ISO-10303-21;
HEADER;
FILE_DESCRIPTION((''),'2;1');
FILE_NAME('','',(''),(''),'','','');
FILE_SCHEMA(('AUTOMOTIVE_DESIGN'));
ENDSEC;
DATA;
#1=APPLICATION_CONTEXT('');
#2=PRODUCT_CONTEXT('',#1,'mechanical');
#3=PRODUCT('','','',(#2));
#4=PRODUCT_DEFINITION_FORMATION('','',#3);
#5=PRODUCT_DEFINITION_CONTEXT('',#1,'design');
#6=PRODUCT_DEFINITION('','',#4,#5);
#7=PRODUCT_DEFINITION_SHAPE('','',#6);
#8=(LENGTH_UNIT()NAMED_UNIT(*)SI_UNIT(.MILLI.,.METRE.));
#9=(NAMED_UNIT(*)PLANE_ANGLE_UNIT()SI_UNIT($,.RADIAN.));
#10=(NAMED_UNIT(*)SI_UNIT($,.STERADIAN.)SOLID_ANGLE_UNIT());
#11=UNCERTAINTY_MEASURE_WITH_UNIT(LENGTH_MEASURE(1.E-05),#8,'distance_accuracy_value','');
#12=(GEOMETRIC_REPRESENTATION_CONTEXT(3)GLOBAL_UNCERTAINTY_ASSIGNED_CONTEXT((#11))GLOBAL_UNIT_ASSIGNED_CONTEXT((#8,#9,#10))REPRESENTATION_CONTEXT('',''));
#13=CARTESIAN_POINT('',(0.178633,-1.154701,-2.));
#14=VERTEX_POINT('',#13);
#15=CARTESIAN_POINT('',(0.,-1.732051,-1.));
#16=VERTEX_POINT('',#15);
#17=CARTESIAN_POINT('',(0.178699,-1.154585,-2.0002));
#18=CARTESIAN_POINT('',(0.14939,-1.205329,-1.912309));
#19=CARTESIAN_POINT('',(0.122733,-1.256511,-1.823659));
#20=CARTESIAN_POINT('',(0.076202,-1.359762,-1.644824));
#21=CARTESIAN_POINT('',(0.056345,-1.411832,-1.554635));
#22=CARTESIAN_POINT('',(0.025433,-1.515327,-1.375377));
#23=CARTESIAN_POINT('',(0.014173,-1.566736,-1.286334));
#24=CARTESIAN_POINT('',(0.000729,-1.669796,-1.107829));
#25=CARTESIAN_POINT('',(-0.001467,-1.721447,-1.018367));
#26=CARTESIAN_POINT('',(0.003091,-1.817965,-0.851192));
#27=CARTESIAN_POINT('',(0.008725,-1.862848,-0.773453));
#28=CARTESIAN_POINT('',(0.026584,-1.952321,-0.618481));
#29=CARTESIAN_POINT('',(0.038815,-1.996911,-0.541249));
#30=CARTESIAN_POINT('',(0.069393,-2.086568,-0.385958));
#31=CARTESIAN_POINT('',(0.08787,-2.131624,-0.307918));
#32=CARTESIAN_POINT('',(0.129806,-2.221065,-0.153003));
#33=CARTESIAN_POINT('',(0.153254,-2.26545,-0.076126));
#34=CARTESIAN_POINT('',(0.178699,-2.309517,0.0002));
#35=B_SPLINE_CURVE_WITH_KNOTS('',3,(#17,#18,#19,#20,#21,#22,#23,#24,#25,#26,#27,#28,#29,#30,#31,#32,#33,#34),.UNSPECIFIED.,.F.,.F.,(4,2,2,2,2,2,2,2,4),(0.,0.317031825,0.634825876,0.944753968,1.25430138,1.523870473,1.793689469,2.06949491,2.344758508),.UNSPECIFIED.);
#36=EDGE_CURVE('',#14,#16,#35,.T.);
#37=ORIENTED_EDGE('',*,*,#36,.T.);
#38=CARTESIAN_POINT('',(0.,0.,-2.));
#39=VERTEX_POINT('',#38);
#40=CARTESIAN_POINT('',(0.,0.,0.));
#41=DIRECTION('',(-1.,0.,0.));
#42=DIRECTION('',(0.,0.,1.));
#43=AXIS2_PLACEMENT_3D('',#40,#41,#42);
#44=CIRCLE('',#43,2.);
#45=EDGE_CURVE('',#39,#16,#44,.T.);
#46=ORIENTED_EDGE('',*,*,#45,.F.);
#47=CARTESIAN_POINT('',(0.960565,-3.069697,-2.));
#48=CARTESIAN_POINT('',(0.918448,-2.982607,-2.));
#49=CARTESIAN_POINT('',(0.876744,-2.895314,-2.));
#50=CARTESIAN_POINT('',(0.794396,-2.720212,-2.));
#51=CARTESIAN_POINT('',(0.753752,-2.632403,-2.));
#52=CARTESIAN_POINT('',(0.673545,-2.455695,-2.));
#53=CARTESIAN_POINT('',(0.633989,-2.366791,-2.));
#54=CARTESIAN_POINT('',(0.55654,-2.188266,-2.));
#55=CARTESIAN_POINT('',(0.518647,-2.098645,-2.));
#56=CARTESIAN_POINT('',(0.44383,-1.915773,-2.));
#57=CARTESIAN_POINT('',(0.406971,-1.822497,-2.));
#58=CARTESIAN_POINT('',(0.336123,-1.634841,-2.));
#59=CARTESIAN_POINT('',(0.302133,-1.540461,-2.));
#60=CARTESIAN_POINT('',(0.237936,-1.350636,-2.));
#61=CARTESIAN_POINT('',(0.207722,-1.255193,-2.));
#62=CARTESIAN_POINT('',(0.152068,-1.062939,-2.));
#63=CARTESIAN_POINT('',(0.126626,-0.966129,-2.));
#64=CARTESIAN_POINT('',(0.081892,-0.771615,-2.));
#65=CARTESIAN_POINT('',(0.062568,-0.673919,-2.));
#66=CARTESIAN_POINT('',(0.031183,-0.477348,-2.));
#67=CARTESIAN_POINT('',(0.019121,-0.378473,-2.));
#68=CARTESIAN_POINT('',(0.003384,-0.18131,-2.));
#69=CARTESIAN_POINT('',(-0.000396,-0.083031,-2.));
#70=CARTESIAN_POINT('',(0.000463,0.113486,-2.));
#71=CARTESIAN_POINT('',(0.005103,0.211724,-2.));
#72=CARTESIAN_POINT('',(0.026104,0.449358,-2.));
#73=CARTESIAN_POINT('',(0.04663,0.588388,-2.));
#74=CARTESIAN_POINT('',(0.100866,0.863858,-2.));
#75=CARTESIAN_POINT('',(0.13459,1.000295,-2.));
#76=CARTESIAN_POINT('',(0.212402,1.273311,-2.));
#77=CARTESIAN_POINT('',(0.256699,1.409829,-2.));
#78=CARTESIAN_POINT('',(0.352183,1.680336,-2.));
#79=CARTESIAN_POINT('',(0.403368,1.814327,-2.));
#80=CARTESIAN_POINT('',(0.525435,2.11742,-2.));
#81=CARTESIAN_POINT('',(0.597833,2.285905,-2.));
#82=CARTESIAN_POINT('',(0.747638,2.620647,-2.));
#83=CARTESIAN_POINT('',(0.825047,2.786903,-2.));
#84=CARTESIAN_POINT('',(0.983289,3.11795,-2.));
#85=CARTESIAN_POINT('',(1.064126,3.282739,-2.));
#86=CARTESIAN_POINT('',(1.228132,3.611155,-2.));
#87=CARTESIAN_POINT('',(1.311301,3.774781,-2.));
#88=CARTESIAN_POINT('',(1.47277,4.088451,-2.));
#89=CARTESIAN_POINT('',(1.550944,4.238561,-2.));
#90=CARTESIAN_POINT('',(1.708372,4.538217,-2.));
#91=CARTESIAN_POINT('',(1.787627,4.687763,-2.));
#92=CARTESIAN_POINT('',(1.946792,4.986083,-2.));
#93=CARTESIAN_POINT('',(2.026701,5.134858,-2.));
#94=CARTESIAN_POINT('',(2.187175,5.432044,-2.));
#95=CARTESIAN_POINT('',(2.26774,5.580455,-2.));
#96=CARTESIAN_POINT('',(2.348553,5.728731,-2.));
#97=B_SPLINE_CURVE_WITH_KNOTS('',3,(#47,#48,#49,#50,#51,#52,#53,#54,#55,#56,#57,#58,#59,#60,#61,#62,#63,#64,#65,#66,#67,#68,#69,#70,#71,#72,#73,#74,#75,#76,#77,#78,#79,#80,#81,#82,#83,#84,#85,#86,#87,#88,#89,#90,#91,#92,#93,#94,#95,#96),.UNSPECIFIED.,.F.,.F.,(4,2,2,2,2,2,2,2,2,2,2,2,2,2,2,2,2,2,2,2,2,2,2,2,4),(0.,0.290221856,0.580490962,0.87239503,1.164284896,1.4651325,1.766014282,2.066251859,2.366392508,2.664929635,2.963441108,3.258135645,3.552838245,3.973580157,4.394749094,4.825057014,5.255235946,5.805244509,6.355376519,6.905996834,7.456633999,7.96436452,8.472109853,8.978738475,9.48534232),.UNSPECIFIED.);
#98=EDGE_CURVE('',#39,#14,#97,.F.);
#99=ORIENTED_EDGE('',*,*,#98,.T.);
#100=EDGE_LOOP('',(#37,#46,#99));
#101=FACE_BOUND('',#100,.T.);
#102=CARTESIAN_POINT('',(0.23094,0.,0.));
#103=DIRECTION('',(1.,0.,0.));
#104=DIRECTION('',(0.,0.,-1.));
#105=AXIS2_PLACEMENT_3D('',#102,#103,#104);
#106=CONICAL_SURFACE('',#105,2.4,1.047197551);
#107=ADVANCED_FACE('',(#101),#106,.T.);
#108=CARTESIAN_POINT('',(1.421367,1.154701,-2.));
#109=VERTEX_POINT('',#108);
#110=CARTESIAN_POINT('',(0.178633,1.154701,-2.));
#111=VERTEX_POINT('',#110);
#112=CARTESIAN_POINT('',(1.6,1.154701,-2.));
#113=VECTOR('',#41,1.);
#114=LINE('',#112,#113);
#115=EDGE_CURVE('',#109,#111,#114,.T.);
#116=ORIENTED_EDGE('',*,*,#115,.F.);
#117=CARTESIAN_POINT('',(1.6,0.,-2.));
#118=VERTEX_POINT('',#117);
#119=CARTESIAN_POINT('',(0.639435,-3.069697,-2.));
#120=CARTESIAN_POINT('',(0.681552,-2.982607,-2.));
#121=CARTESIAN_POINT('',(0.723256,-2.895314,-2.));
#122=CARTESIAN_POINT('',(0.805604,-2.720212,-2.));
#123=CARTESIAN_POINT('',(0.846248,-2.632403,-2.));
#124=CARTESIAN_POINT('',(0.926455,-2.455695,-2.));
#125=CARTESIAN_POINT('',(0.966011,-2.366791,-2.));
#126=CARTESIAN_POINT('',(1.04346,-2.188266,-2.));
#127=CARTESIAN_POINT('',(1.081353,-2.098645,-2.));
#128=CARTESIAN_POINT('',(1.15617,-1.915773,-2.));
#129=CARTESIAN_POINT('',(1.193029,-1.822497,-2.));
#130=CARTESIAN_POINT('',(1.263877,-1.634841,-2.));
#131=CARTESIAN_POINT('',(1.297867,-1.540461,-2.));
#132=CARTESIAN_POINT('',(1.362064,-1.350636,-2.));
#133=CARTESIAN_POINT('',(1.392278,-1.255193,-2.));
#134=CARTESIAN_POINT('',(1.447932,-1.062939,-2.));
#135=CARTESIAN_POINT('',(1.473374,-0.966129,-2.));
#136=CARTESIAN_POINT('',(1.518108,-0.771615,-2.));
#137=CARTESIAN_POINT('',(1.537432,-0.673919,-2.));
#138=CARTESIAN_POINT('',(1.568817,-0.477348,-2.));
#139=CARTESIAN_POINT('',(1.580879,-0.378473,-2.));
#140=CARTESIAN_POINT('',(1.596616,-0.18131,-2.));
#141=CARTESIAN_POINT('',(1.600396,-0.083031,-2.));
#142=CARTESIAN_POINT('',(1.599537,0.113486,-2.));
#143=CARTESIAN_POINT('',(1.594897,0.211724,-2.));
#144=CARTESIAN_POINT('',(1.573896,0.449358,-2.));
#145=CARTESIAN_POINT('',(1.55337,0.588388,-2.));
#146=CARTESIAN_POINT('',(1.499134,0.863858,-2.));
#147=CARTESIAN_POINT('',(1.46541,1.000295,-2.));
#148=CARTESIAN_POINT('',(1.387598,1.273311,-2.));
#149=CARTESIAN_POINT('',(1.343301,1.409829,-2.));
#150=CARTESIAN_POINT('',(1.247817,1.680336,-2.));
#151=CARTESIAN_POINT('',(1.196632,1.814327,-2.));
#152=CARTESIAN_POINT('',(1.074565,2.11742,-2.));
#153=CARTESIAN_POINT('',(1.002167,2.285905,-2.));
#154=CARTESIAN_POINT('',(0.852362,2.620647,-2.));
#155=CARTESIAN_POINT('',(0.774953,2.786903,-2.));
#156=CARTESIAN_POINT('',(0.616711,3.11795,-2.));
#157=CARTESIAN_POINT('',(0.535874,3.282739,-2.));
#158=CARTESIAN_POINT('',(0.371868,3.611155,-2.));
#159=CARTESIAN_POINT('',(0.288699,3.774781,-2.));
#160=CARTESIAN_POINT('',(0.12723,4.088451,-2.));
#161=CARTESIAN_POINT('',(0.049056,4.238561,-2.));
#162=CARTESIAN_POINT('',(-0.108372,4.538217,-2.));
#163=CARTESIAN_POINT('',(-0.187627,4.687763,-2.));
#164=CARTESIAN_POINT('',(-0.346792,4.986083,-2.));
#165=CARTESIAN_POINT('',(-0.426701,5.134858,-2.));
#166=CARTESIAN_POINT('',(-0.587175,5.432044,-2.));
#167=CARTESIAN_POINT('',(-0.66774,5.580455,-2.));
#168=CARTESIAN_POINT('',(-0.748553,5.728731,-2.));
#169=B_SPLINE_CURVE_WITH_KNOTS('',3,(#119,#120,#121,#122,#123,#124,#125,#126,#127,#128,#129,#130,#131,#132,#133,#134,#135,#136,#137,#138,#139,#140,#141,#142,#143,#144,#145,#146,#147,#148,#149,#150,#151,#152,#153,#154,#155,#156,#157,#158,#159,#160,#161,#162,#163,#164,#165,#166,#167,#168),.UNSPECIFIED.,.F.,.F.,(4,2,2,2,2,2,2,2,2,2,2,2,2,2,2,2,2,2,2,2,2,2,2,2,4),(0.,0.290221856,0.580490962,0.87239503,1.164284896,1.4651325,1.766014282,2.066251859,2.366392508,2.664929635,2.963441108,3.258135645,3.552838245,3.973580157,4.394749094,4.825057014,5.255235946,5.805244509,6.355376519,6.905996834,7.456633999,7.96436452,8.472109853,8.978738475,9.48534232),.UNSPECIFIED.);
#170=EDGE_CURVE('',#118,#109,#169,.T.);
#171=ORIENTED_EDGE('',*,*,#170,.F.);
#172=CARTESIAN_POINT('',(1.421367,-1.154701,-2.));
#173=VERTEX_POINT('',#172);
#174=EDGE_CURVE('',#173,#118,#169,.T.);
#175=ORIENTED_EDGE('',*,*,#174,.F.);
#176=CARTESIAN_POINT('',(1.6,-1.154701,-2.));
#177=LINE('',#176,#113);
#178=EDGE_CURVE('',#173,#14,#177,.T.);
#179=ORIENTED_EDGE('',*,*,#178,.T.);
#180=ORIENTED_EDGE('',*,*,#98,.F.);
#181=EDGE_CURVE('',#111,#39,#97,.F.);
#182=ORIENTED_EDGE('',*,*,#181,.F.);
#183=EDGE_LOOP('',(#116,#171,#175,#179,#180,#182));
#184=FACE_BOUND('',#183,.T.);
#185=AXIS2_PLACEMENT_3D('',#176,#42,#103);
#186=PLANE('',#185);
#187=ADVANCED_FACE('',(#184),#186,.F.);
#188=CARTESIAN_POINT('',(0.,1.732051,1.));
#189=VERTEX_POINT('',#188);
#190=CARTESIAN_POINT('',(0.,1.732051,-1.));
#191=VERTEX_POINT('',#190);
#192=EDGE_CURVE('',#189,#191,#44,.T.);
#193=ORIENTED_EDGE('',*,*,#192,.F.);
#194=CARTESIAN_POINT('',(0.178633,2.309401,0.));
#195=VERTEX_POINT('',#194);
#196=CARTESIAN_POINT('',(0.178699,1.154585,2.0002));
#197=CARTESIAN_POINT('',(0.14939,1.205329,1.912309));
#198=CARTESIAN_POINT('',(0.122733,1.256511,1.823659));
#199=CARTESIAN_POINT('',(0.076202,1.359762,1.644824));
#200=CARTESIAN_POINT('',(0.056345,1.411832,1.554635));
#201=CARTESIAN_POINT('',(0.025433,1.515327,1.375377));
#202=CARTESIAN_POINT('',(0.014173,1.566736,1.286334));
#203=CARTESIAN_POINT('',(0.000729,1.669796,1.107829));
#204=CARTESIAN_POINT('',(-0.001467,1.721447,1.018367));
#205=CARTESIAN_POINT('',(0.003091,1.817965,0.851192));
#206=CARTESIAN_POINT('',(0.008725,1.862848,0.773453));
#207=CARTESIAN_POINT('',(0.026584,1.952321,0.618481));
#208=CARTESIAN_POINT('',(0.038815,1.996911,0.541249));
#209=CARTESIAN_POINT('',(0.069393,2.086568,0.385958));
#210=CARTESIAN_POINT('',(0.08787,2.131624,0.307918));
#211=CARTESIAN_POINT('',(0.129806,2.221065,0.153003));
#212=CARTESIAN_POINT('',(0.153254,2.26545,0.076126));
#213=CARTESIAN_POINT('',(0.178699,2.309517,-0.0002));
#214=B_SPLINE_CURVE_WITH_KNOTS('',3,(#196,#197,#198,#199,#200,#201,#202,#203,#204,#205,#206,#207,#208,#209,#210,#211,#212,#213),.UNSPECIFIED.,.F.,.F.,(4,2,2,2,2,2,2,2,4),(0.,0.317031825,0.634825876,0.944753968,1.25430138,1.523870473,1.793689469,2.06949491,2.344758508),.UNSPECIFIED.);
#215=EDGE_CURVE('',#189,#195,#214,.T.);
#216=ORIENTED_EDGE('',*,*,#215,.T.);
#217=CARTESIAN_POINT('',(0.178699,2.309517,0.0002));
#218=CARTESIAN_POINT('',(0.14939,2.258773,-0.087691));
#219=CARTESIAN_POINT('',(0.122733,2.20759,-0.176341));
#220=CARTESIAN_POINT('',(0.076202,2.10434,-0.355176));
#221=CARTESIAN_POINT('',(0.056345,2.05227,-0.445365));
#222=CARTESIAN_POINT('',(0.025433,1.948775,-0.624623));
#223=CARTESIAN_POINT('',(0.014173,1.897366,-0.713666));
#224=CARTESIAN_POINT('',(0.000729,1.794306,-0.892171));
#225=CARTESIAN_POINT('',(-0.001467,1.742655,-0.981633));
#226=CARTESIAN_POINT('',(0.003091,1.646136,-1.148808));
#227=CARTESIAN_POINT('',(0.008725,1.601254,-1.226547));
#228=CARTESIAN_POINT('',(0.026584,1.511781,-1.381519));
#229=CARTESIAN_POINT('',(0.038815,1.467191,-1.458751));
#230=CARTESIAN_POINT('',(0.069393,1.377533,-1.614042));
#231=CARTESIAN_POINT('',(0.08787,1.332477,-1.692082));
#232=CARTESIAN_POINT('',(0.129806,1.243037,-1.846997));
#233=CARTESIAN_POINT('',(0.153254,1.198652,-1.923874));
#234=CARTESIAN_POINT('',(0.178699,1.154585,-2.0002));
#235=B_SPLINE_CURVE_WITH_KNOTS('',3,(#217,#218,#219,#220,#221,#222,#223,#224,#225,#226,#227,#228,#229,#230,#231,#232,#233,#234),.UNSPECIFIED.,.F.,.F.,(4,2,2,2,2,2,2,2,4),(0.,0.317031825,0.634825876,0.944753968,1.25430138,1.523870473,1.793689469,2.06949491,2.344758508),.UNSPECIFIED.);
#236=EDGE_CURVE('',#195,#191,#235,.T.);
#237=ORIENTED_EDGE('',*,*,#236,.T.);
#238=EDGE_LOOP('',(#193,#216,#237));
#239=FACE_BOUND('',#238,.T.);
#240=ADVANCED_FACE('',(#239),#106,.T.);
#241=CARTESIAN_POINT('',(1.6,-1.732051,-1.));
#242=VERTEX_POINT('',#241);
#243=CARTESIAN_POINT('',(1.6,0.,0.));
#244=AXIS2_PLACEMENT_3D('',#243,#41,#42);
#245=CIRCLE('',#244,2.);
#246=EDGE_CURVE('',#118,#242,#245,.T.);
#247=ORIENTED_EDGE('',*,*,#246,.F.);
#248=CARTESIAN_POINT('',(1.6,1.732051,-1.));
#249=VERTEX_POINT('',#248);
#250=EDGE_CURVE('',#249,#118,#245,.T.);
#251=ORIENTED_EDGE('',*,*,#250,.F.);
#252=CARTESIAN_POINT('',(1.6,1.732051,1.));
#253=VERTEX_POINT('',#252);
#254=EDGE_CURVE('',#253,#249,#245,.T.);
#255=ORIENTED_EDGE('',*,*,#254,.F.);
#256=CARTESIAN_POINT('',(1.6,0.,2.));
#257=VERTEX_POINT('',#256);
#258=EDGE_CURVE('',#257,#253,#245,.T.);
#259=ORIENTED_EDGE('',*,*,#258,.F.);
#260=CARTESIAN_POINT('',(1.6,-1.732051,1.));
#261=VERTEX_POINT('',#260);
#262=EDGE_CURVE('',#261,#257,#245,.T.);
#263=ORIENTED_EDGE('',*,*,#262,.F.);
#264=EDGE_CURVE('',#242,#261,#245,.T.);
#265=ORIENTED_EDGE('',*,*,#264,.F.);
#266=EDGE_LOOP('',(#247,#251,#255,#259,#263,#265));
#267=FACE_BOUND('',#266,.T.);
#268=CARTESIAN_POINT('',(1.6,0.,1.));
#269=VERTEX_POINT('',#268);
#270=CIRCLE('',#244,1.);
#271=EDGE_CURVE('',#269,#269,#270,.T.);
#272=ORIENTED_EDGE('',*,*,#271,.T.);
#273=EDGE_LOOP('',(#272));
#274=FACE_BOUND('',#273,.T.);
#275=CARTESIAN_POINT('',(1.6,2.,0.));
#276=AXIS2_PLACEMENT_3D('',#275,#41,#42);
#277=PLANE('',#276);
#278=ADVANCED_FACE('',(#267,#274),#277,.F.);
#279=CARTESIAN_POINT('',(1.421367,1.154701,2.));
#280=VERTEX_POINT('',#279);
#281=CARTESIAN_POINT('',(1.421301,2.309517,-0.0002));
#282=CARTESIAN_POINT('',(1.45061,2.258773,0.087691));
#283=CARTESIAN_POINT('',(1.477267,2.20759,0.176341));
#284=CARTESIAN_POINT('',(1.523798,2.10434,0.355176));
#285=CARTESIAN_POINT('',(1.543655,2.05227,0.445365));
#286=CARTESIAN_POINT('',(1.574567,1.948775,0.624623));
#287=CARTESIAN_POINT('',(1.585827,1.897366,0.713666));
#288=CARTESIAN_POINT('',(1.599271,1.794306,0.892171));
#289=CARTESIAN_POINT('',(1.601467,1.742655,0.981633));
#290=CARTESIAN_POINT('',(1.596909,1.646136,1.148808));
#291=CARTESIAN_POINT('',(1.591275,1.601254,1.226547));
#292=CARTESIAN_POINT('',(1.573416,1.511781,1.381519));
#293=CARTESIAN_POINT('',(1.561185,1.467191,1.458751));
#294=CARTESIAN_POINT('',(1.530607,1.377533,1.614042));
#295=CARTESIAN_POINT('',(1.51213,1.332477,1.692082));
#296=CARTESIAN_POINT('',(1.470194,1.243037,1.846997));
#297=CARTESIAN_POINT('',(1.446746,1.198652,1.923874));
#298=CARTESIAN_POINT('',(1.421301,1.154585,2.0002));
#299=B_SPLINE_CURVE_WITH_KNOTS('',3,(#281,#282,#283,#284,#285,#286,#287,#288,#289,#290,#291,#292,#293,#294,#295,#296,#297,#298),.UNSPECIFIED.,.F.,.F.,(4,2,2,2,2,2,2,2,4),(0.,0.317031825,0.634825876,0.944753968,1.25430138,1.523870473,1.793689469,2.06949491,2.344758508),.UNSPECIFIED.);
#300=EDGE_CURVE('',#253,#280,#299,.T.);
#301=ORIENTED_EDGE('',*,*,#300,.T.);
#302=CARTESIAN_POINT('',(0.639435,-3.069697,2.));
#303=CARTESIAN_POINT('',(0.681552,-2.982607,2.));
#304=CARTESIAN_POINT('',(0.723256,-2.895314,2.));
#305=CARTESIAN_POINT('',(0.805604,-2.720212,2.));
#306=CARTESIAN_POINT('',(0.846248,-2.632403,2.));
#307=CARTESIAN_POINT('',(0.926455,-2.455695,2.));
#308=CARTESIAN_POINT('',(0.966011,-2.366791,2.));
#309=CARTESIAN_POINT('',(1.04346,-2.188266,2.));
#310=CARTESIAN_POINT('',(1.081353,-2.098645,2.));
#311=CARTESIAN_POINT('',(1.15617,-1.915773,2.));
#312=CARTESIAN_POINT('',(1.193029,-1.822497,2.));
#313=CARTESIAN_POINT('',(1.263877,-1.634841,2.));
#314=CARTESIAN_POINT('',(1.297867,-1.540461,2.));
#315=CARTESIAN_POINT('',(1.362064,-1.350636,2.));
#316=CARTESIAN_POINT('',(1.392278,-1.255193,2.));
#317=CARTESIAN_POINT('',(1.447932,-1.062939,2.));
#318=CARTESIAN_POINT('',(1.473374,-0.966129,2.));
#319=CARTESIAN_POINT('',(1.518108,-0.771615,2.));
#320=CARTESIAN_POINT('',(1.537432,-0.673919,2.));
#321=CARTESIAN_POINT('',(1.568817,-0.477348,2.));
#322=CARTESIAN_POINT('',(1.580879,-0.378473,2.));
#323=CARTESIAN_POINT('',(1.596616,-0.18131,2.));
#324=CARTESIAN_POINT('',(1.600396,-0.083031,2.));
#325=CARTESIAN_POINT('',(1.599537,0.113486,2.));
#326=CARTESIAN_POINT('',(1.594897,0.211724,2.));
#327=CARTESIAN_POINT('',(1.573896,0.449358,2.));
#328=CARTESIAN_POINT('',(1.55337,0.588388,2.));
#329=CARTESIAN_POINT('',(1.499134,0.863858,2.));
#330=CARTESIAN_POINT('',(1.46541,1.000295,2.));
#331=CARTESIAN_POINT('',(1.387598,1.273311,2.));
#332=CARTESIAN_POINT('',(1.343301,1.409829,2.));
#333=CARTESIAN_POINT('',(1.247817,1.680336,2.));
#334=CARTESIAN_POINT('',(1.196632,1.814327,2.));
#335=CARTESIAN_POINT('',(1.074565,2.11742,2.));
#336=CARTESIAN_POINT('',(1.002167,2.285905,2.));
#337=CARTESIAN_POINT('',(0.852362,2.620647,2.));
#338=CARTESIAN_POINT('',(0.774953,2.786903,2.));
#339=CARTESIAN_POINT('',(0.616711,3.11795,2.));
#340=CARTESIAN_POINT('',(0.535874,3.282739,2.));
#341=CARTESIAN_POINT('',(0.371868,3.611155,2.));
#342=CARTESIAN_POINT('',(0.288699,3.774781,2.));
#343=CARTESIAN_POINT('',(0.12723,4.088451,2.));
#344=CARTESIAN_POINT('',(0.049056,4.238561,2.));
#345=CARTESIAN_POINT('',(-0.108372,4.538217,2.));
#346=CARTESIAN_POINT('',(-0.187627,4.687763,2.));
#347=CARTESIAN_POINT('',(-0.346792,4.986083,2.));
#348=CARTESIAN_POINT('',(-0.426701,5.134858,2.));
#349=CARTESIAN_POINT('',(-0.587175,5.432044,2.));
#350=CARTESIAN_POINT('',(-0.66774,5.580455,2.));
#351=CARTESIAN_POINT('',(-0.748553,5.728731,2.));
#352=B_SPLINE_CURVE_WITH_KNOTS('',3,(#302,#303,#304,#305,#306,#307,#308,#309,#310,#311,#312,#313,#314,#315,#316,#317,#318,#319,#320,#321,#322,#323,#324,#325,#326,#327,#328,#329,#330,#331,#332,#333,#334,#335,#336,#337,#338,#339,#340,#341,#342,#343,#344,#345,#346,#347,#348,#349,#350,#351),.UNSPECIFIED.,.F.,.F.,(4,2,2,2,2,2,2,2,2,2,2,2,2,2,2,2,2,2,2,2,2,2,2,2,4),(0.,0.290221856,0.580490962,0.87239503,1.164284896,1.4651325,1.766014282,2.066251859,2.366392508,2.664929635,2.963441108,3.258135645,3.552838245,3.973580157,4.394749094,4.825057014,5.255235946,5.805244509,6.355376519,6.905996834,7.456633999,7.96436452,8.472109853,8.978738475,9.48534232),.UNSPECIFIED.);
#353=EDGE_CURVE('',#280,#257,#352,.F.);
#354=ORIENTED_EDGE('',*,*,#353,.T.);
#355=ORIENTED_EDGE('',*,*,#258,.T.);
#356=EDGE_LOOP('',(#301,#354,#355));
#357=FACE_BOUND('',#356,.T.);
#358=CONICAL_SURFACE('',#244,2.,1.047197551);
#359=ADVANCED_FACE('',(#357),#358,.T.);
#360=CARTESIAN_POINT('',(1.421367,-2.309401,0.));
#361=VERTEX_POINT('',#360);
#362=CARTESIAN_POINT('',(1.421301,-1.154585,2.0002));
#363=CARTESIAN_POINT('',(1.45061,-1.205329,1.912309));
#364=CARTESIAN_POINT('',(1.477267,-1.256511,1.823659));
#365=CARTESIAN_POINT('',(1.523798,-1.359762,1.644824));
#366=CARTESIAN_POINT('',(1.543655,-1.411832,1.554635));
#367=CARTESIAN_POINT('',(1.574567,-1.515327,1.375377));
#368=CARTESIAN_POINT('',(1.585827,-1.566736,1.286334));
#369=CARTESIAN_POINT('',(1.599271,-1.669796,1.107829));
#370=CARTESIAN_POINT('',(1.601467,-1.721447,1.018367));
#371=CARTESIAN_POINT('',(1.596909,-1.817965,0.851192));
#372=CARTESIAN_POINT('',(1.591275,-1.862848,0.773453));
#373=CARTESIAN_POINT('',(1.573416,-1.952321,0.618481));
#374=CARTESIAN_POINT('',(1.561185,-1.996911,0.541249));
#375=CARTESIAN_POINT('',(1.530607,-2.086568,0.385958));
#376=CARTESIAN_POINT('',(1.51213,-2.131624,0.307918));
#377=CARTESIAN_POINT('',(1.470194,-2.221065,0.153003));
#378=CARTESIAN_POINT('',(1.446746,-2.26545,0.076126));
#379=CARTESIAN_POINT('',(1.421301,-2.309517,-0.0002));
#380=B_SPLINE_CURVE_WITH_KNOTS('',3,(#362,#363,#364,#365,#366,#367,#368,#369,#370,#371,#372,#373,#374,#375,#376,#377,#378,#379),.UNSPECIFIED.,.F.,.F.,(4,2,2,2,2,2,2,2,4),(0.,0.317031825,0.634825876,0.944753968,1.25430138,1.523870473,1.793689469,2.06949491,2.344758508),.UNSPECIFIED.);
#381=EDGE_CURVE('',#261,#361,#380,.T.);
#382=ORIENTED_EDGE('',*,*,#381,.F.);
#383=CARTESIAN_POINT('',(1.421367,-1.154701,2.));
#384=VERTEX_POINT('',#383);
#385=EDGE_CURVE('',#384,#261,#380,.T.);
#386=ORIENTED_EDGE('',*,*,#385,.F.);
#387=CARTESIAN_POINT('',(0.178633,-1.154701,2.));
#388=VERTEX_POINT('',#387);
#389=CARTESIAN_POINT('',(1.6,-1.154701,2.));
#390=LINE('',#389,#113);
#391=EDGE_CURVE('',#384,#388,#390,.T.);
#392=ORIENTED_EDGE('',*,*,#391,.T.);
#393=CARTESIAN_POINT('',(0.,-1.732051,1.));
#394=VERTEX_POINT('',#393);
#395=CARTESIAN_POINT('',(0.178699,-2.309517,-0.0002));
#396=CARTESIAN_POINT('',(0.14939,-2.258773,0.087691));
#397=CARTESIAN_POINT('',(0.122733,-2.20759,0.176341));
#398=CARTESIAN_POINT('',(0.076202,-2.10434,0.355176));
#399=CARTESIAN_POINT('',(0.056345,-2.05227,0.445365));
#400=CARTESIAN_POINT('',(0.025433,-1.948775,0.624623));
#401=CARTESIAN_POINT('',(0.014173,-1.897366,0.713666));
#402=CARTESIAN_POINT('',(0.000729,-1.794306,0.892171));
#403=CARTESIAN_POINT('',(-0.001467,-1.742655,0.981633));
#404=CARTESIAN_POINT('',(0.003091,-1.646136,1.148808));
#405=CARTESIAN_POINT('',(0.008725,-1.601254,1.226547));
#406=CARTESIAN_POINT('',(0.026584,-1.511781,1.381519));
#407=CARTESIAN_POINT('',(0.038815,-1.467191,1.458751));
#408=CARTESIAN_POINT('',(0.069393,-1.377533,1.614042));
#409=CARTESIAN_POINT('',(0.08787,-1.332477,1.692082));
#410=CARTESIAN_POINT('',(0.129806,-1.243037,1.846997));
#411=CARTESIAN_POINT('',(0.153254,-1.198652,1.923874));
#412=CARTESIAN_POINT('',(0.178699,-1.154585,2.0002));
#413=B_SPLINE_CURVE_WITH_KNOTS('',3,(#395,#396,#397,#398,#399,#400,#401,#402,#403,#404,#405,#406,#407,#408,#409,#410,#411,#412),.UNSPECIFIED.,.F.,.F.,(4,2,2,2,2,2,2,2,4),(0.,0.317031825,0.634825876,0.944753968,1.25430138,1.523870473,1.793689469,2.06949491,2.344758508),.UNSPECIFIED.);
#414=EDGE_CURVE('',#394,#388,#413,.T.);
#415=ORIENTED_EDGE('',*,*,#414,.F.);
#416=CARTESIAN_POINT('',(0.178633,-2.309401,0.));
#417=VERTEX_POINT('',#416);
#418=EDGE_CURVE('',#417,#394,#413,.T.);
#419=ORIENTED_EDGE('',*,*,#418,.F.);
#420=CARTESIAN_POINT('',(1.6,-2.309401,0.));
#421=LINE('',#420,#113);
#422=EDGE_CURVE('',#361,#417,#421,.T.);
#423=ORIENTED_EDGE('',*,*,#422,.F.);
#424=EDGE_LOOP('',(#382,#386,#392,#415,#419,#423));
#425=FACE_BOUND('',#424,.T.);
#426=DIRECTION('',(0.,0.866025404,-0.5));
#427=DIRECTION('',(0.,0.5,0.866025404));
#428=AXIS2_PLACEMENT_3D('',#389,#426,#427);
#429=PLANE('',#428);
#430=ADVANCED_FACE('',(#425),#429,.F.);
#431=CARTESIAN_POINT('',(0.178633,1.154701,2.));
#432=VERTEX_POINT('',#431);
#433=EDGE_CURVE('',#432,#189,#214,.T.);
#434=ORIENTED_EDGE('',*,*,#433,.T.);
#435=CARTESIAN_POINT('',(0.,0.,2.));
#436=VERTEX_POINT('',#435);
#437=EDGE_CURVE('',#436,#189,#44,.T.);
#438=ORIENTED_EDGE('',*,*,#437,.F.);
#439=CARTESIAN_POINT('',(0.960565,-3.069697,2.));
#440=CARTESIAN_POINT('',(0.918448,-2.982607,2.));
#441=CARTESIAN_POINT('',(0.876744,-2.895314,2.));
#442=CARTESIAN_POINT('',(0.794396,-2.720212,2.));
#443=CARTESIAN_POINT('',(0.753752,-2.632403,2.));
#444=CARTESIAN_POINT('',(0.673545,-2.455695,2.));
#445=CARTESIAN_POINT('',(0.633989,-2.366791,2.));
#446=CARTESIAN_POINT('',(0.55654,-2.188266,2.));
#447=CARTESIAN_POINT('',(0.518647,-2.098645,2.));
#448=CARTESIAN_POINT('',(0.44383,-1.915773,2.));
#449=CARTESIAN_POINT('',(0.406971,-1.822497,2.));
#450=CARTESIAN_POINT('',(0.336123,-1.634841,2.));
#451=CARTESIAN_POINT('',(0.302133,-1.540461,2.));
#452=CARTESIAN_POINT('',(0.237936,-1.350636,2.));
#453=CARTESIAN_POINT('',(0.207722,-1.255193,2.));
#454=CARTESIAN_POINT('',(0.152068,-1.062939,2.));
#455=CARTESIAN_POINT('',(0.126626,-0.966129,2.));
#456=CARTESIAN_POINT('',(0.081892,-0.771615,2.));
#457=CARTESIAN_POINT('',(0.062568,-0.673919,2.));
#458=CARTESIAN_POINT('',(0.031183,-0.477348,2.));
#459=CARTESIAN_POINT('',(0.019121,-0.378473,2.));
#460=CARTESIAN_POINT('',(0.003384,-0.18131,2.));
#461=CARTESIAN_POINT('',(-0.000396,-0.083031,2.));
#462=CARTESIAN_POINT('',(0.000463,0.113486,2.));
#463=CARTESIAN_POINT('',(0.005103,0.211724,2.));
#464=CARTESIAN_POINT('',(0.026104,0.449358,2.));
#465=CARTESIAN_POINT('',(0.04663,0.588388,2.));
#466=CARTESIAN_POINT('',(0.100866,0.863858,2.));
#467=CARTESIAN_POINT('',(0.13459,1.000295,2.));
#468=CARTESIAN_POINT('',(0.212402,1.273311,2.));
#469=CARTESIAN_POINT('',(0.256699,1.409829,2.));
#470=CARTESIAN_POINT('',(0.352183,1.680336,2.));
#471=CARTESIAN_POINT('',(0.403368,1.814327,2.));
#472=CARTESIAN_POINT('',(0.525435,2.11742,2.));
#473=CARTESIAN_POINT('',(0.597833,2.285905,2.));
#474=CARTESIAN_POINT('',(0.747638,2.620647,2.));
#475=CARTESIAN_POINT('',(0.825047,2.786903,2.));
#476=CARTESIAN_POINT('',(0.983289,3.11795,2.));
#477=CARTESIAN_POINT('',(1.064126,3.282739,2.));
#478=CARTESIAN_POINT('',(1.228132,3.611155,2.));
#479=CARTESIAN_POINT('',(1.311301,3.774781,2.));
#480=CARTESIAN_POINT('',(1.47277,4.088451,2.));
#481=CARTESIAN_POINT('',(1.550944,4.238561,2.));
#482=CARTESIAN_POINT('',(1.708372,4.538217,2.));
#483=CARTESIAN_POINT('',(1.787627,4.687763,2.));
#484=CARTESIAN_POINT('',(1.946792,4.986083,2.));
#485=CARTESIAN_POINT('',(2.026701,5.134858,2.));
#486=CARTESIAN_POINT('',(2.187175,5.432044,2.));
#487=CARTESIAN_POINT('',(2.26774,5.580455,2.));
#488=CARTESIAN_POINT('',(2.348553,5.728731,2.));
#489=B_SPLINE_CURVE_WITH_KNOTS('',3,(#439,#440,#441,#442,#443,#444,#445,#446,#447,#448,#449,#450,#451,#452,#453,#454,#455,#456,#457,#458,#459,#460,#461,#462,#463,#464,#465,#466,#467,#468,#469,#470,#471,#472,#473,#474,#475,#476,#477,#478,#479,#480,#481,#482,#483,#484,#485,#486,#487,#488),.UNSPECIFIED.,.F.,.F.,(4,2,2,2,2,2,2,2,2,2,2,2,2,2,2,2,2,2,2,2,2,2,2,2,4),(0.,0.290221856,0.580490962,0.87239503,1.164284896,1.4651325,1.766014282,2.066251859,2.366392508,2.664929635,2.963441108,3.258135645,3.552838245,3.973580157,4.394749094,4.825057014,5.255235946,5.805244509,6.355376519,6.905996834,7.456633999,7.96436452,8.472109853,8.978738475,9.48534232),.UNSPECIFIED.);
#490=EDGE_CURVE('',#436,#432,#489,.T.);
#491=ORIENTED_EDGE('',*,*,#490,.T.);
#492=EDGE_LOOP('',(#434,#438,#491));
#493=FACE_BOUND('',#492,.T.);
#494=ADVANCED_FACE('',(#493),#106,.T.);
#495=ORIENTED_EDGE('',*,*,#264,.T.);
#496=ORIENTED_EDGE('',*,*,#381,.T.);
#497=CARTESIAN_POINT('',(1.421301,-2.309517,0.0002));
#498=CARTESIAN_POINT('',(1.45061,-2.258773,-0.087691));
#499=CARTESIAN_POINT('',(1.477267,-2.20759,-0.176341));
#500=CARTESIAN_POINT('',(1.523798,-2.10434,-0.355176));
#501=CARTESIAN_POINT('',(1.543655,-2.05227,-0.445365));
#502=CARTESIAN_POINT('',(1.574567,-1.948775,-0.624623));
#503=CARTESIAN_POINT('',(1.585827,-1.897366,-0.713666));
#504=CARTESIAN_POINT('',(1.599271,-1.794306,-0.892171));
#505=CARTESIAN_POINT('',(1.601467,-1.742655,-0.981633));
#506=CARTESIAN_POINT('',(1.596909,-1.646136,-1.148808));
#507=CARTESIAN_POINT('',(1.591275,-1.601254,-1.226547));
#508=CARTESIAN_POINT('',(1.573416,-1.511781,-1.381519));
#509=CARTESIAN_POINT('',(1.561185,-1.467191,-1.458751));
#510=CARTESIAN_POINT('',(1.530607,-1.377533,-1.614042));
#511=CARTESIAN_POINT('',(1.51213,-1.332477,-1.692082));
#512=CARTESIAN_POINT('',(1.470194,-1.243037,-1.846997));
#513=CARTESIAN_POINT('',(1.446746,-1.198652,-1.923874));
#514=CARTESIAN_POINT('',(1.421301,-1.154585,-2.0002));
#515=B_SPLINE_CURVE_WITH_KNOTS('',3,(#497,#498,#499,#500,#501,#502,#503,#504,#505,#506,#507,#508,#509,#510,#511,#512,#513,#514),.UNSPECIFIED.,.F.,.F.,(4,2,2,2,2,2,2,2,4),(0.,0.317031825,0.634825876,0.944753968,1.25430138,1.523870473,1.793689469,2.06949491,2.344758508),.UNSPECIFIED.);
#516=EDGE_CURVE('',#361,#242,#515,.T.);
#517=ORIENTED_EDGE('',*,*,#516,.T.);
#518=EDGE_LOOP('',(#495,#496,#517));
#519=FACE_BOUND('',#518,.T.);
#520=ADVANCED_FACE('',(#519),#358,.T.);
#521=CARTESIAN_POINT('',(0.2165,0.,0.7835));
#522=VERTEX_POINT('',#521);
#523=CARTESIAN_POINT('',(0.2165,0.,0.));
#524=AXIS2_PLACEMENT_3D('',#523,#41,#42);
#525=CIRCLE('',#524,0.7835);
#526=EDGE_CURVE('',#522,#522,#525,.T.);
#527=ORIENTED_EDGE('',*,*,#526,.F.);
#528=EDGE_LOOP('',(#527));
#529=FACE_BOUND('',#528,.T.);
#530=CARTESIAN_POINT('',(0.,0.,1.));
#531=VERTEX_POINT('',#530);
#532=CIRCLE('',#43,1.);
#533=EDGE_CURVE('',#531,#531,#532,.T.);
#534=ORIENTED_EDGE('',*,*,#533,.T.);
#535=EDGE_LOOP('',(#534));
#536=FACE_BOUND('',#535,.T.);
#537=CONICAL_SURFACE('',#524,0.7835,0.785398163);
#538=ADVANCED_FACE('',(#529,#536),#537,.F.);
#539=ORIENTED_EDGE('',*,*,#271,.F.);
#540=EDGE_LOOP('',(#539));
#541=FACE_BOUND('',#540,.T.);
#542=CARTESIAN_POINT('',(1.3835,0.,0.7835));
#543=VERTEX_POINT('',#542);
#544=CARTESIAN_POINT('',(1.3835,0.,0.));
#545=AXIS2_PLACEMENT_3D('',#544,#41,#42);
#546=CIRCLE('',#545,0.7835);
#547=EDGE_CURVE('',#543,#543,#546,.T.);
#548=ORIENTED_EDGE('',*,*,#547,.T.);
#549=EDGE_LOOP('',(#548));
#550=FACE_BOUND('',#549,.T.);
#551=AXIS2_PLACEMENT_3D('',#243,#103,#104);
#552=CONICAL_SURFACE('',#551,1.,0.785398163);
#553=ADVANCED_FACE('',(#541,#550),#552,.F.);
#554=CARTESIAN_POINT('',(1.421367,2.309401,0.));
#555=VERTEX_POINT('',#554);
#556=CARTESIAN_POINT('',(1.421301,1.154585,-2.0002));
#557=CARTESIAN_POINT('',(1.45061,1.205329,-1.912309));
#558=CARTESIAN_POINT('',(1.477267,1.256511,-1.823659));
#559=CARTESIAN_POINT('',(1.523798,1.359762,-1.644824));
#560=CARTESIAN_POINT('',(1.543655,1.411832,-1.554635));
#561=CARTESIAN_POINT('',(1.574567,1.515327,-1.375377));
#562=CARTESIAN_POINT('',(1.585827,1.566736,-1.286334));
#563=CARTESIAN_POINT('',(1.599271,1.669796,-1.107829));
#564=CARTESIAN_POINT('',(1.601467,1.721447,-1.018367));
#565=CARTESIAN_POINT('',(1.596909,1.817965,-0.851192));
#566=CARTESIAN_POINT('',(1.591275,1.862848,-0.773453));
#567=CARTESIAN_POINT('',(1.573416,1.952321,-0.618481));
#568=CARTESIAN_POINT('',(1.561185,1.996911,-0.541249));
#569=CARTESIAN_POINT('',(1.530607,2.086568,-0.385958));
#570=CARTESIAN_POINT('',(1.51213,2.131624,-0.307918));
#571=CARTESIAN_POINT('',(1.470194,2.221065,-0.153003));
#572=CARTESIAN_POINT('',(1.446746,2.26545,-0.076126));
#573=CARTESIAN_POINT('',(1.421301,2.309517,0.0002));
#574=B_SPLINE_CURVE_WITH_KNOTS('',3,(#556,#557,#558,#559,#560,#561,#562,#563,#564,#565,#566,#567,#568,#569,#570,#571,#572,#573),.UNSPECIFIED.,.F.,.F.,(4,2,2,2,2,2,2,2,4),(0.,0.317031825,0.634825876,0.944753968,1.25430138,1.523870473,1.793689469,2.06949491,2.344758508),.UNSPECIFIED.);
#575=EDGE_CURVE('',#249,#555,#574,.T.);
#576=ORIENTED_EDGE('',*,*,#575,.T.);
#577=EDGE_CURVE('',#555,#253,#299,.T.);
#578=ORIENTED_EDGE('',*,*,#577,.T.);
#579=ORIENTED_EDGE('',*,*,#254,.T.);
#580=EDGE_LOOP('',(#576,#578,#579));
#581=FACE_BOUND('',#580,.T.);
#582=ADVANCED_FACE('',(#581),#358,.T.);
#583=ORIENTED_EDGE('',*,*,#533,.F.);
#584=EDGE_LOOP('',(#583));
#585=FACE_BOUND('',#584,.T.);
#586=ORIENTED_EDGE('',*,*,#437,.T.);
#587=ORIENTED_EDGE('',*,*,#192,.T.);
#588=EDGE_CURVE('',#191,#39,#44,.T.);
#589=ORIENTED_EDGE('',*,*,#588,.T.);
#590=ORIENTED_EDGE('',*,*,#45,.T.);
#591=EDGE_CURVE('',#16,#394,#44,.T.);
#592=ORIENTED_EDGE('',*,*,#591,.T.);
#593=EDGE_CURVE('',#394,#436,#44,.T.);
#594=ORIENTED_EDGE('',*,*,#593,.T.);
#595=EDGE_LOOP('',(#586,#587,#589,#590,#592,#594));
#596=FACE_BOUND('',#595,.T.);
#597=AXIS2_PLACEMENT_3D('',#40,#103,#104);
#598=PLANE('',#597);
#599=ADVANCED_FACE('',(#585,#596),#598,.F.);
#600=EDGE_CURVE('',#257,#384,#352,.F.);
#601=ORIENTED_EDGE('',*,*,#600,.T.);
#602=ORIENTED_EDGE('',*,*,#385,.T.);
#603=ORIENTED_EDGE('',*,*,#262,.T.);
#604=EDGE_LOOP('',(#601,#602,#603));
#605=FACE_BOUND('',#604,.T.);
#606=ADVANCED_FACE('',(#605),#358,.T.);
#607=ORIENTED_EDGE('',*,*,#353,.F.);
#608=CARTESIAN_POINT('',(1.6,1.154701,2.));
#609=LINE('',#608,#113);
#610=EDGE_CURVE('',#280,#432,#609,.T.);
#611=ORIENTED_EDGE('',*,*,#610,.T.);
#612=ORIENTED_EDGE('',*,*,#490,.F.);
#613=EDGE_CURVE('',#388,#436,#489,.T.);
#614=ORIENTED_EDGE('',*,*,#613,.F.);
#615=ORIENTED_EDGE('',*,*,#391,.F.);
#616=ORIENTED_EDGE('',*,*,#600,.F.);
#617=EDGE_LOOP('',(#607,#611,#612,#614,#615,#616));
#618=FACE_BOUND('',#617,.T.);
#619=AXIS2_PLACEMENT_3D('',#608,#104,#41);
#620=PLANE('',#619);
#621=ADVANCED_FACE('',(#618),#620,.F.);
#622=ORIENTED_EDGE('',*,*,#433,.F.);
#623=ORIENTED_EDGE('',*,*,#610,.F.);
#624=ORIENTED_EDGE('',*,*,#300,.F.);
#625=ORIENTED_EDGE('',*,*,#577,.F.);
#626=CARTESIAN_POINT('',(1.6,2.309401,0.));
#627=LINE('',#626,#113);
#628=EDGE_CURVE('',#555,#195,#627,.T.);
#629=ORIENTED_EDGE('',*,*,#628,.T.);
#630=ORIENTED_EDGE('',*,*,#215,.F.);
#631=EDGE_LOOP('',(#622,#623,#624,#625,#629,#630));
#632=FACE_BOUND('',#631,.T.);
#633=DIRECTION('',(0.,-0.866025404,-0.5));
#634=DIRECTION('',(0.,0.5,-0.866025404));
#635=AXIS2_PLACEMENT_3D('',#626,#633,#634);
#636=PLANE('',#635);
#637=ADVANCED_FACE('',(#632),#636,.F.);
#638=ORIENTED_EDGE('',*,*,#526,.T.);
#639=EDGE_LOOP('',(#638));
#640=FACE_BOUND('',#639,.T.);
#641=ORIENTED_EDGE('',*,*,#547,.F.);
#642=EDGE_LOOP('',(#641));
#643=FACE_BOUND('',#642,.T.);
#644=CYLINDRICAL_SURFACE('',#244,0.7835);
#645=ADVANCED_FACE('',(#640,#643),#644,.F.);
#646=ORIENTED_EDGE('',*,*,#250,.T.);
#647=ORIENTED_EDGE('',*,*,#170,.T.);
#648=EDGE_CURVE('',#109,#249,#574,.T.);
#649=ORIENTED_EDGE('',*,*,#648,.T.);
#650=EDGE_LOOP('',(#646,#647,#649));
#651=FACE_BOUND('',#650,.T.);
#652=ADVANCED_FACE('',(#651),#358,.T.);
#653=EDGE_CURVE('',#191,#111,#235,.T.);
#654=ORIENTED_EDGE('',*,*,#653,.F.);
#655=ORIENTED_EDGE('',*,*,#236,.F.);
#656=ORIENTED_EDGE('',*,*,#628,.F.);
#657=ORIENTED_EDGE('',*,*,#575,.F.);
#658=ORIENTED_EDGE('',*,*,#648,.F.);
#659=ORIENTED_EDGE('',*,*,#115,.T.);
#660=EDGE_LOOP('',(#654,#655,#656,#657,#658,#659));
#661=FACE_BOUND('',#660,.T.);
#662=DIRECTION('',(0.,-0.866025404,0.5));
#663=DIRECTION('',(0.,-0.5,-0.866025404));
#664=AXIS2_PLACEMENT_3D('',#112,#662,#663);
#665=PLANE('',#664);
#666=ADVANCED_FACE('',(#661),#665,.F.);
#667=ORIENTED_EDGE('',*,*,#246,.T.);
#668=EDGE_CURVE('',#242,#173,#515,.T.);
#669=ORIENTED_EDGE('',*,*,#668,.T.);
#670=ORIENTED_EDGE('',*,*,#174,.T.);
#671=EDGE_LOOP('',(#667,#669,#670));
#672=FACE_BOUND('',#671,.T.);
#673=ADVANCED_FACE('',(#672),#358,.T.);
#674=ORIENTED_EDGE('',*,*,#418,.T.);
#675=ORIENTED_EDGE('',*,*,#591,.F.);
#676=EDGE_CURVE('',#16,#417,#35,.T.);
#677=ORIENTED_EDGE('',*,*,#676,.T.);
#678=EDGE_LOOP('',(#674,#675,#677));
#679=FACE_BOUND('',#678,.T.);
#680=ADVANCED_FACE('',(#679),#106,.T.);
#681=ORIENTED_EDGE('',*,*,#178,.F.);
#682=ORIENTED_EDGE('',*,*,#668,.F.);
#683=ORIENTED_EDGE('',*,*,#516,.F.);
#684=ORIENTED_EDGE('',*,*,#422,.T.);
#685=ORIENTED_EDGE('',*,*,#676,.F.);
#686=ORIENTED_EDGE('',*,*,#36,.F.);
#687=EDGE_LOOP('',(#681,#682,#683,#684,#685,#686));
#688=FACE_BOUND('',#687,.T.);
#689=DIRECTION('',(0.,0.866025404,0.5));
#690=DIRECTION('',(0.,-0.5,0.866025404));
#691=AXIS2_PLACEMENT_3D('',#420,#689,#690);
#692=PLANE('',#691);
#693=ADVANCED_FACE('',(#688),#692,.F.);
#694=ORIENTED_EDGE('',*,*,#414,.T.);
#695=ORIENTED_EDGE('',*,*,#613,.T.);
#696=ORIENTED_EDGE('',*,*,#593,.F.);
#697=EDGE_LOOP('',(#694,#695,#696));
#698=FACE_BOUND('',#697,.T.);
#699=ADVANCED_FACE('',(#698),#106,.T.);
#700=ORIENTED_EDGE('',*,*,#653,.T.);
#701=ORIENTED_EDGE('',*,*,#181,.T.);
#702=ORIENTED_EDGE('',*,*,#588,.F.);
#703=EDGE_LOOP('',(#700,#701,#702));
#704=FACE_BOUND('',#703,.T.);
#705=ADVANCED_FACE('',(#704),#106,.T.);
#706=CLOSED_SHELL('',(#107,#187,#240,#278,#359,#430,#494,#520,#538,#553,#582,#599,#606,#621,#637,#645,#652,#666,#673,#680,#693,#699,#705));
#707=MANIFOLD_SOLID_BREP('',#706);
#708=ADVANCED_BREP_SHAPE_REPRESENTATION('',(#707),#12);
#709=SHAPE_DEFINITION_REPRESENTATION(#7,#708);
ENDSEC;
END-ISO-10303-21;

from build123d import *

# Parameters (mm, degrees)
SKETCH2_W          = 6
SKETCH2_H          = 6
CUT_EXTRUDE1_DEPTH = 1.6


with BuildPart() as part:
    # Sketch1 → Revolve1 (revolve)
    with BuildSketch(Plane.XY):
        Polygon((0, 0), (0, 2), (0.230940108, 2.4), (1.369059892, 2.4), (1.6, 2), (1.6, 0), align=None)
    revolve(axis=Axis((1.6, 0, 0), (-1, 0, 0)))

    # Sketch2 → Cut-Extrude1 (cut)
    with BuildSketch(Plane(origin=(0, 0, 0), x_dir=(0, 0, -1), z_dir=(1, 0, 0))):
        Rectangle(SKETCH2_W, SKETCH2_H)
        Polygon((-2, -1.154700538), (0, -2.309401077), (2, -1.154700538), (2, 1.154700538), (0, 2.309401077), (-2, 1.154700538), align=None, mode=Mode.SUBTRACT)
    extrude(amount=CUT_EXTRUDE1_DEPTH, mode=Mode.SUBTRACT)

    # Sketch3 → Cut-Revolve1 (revolve, cut)
    with BuildSketch(Plane.XY):
        Polygon((0, 0), (0, 1), (0.2165, 0.7835), (1.3835, 0.7835), (1.6, 1), (1.6, 0), align=None)
    revolve(axis=Axis((1.6, 0, 0), (-1, 0, 0)), mode=Mode.SUBTRACT)


solid = part.part
